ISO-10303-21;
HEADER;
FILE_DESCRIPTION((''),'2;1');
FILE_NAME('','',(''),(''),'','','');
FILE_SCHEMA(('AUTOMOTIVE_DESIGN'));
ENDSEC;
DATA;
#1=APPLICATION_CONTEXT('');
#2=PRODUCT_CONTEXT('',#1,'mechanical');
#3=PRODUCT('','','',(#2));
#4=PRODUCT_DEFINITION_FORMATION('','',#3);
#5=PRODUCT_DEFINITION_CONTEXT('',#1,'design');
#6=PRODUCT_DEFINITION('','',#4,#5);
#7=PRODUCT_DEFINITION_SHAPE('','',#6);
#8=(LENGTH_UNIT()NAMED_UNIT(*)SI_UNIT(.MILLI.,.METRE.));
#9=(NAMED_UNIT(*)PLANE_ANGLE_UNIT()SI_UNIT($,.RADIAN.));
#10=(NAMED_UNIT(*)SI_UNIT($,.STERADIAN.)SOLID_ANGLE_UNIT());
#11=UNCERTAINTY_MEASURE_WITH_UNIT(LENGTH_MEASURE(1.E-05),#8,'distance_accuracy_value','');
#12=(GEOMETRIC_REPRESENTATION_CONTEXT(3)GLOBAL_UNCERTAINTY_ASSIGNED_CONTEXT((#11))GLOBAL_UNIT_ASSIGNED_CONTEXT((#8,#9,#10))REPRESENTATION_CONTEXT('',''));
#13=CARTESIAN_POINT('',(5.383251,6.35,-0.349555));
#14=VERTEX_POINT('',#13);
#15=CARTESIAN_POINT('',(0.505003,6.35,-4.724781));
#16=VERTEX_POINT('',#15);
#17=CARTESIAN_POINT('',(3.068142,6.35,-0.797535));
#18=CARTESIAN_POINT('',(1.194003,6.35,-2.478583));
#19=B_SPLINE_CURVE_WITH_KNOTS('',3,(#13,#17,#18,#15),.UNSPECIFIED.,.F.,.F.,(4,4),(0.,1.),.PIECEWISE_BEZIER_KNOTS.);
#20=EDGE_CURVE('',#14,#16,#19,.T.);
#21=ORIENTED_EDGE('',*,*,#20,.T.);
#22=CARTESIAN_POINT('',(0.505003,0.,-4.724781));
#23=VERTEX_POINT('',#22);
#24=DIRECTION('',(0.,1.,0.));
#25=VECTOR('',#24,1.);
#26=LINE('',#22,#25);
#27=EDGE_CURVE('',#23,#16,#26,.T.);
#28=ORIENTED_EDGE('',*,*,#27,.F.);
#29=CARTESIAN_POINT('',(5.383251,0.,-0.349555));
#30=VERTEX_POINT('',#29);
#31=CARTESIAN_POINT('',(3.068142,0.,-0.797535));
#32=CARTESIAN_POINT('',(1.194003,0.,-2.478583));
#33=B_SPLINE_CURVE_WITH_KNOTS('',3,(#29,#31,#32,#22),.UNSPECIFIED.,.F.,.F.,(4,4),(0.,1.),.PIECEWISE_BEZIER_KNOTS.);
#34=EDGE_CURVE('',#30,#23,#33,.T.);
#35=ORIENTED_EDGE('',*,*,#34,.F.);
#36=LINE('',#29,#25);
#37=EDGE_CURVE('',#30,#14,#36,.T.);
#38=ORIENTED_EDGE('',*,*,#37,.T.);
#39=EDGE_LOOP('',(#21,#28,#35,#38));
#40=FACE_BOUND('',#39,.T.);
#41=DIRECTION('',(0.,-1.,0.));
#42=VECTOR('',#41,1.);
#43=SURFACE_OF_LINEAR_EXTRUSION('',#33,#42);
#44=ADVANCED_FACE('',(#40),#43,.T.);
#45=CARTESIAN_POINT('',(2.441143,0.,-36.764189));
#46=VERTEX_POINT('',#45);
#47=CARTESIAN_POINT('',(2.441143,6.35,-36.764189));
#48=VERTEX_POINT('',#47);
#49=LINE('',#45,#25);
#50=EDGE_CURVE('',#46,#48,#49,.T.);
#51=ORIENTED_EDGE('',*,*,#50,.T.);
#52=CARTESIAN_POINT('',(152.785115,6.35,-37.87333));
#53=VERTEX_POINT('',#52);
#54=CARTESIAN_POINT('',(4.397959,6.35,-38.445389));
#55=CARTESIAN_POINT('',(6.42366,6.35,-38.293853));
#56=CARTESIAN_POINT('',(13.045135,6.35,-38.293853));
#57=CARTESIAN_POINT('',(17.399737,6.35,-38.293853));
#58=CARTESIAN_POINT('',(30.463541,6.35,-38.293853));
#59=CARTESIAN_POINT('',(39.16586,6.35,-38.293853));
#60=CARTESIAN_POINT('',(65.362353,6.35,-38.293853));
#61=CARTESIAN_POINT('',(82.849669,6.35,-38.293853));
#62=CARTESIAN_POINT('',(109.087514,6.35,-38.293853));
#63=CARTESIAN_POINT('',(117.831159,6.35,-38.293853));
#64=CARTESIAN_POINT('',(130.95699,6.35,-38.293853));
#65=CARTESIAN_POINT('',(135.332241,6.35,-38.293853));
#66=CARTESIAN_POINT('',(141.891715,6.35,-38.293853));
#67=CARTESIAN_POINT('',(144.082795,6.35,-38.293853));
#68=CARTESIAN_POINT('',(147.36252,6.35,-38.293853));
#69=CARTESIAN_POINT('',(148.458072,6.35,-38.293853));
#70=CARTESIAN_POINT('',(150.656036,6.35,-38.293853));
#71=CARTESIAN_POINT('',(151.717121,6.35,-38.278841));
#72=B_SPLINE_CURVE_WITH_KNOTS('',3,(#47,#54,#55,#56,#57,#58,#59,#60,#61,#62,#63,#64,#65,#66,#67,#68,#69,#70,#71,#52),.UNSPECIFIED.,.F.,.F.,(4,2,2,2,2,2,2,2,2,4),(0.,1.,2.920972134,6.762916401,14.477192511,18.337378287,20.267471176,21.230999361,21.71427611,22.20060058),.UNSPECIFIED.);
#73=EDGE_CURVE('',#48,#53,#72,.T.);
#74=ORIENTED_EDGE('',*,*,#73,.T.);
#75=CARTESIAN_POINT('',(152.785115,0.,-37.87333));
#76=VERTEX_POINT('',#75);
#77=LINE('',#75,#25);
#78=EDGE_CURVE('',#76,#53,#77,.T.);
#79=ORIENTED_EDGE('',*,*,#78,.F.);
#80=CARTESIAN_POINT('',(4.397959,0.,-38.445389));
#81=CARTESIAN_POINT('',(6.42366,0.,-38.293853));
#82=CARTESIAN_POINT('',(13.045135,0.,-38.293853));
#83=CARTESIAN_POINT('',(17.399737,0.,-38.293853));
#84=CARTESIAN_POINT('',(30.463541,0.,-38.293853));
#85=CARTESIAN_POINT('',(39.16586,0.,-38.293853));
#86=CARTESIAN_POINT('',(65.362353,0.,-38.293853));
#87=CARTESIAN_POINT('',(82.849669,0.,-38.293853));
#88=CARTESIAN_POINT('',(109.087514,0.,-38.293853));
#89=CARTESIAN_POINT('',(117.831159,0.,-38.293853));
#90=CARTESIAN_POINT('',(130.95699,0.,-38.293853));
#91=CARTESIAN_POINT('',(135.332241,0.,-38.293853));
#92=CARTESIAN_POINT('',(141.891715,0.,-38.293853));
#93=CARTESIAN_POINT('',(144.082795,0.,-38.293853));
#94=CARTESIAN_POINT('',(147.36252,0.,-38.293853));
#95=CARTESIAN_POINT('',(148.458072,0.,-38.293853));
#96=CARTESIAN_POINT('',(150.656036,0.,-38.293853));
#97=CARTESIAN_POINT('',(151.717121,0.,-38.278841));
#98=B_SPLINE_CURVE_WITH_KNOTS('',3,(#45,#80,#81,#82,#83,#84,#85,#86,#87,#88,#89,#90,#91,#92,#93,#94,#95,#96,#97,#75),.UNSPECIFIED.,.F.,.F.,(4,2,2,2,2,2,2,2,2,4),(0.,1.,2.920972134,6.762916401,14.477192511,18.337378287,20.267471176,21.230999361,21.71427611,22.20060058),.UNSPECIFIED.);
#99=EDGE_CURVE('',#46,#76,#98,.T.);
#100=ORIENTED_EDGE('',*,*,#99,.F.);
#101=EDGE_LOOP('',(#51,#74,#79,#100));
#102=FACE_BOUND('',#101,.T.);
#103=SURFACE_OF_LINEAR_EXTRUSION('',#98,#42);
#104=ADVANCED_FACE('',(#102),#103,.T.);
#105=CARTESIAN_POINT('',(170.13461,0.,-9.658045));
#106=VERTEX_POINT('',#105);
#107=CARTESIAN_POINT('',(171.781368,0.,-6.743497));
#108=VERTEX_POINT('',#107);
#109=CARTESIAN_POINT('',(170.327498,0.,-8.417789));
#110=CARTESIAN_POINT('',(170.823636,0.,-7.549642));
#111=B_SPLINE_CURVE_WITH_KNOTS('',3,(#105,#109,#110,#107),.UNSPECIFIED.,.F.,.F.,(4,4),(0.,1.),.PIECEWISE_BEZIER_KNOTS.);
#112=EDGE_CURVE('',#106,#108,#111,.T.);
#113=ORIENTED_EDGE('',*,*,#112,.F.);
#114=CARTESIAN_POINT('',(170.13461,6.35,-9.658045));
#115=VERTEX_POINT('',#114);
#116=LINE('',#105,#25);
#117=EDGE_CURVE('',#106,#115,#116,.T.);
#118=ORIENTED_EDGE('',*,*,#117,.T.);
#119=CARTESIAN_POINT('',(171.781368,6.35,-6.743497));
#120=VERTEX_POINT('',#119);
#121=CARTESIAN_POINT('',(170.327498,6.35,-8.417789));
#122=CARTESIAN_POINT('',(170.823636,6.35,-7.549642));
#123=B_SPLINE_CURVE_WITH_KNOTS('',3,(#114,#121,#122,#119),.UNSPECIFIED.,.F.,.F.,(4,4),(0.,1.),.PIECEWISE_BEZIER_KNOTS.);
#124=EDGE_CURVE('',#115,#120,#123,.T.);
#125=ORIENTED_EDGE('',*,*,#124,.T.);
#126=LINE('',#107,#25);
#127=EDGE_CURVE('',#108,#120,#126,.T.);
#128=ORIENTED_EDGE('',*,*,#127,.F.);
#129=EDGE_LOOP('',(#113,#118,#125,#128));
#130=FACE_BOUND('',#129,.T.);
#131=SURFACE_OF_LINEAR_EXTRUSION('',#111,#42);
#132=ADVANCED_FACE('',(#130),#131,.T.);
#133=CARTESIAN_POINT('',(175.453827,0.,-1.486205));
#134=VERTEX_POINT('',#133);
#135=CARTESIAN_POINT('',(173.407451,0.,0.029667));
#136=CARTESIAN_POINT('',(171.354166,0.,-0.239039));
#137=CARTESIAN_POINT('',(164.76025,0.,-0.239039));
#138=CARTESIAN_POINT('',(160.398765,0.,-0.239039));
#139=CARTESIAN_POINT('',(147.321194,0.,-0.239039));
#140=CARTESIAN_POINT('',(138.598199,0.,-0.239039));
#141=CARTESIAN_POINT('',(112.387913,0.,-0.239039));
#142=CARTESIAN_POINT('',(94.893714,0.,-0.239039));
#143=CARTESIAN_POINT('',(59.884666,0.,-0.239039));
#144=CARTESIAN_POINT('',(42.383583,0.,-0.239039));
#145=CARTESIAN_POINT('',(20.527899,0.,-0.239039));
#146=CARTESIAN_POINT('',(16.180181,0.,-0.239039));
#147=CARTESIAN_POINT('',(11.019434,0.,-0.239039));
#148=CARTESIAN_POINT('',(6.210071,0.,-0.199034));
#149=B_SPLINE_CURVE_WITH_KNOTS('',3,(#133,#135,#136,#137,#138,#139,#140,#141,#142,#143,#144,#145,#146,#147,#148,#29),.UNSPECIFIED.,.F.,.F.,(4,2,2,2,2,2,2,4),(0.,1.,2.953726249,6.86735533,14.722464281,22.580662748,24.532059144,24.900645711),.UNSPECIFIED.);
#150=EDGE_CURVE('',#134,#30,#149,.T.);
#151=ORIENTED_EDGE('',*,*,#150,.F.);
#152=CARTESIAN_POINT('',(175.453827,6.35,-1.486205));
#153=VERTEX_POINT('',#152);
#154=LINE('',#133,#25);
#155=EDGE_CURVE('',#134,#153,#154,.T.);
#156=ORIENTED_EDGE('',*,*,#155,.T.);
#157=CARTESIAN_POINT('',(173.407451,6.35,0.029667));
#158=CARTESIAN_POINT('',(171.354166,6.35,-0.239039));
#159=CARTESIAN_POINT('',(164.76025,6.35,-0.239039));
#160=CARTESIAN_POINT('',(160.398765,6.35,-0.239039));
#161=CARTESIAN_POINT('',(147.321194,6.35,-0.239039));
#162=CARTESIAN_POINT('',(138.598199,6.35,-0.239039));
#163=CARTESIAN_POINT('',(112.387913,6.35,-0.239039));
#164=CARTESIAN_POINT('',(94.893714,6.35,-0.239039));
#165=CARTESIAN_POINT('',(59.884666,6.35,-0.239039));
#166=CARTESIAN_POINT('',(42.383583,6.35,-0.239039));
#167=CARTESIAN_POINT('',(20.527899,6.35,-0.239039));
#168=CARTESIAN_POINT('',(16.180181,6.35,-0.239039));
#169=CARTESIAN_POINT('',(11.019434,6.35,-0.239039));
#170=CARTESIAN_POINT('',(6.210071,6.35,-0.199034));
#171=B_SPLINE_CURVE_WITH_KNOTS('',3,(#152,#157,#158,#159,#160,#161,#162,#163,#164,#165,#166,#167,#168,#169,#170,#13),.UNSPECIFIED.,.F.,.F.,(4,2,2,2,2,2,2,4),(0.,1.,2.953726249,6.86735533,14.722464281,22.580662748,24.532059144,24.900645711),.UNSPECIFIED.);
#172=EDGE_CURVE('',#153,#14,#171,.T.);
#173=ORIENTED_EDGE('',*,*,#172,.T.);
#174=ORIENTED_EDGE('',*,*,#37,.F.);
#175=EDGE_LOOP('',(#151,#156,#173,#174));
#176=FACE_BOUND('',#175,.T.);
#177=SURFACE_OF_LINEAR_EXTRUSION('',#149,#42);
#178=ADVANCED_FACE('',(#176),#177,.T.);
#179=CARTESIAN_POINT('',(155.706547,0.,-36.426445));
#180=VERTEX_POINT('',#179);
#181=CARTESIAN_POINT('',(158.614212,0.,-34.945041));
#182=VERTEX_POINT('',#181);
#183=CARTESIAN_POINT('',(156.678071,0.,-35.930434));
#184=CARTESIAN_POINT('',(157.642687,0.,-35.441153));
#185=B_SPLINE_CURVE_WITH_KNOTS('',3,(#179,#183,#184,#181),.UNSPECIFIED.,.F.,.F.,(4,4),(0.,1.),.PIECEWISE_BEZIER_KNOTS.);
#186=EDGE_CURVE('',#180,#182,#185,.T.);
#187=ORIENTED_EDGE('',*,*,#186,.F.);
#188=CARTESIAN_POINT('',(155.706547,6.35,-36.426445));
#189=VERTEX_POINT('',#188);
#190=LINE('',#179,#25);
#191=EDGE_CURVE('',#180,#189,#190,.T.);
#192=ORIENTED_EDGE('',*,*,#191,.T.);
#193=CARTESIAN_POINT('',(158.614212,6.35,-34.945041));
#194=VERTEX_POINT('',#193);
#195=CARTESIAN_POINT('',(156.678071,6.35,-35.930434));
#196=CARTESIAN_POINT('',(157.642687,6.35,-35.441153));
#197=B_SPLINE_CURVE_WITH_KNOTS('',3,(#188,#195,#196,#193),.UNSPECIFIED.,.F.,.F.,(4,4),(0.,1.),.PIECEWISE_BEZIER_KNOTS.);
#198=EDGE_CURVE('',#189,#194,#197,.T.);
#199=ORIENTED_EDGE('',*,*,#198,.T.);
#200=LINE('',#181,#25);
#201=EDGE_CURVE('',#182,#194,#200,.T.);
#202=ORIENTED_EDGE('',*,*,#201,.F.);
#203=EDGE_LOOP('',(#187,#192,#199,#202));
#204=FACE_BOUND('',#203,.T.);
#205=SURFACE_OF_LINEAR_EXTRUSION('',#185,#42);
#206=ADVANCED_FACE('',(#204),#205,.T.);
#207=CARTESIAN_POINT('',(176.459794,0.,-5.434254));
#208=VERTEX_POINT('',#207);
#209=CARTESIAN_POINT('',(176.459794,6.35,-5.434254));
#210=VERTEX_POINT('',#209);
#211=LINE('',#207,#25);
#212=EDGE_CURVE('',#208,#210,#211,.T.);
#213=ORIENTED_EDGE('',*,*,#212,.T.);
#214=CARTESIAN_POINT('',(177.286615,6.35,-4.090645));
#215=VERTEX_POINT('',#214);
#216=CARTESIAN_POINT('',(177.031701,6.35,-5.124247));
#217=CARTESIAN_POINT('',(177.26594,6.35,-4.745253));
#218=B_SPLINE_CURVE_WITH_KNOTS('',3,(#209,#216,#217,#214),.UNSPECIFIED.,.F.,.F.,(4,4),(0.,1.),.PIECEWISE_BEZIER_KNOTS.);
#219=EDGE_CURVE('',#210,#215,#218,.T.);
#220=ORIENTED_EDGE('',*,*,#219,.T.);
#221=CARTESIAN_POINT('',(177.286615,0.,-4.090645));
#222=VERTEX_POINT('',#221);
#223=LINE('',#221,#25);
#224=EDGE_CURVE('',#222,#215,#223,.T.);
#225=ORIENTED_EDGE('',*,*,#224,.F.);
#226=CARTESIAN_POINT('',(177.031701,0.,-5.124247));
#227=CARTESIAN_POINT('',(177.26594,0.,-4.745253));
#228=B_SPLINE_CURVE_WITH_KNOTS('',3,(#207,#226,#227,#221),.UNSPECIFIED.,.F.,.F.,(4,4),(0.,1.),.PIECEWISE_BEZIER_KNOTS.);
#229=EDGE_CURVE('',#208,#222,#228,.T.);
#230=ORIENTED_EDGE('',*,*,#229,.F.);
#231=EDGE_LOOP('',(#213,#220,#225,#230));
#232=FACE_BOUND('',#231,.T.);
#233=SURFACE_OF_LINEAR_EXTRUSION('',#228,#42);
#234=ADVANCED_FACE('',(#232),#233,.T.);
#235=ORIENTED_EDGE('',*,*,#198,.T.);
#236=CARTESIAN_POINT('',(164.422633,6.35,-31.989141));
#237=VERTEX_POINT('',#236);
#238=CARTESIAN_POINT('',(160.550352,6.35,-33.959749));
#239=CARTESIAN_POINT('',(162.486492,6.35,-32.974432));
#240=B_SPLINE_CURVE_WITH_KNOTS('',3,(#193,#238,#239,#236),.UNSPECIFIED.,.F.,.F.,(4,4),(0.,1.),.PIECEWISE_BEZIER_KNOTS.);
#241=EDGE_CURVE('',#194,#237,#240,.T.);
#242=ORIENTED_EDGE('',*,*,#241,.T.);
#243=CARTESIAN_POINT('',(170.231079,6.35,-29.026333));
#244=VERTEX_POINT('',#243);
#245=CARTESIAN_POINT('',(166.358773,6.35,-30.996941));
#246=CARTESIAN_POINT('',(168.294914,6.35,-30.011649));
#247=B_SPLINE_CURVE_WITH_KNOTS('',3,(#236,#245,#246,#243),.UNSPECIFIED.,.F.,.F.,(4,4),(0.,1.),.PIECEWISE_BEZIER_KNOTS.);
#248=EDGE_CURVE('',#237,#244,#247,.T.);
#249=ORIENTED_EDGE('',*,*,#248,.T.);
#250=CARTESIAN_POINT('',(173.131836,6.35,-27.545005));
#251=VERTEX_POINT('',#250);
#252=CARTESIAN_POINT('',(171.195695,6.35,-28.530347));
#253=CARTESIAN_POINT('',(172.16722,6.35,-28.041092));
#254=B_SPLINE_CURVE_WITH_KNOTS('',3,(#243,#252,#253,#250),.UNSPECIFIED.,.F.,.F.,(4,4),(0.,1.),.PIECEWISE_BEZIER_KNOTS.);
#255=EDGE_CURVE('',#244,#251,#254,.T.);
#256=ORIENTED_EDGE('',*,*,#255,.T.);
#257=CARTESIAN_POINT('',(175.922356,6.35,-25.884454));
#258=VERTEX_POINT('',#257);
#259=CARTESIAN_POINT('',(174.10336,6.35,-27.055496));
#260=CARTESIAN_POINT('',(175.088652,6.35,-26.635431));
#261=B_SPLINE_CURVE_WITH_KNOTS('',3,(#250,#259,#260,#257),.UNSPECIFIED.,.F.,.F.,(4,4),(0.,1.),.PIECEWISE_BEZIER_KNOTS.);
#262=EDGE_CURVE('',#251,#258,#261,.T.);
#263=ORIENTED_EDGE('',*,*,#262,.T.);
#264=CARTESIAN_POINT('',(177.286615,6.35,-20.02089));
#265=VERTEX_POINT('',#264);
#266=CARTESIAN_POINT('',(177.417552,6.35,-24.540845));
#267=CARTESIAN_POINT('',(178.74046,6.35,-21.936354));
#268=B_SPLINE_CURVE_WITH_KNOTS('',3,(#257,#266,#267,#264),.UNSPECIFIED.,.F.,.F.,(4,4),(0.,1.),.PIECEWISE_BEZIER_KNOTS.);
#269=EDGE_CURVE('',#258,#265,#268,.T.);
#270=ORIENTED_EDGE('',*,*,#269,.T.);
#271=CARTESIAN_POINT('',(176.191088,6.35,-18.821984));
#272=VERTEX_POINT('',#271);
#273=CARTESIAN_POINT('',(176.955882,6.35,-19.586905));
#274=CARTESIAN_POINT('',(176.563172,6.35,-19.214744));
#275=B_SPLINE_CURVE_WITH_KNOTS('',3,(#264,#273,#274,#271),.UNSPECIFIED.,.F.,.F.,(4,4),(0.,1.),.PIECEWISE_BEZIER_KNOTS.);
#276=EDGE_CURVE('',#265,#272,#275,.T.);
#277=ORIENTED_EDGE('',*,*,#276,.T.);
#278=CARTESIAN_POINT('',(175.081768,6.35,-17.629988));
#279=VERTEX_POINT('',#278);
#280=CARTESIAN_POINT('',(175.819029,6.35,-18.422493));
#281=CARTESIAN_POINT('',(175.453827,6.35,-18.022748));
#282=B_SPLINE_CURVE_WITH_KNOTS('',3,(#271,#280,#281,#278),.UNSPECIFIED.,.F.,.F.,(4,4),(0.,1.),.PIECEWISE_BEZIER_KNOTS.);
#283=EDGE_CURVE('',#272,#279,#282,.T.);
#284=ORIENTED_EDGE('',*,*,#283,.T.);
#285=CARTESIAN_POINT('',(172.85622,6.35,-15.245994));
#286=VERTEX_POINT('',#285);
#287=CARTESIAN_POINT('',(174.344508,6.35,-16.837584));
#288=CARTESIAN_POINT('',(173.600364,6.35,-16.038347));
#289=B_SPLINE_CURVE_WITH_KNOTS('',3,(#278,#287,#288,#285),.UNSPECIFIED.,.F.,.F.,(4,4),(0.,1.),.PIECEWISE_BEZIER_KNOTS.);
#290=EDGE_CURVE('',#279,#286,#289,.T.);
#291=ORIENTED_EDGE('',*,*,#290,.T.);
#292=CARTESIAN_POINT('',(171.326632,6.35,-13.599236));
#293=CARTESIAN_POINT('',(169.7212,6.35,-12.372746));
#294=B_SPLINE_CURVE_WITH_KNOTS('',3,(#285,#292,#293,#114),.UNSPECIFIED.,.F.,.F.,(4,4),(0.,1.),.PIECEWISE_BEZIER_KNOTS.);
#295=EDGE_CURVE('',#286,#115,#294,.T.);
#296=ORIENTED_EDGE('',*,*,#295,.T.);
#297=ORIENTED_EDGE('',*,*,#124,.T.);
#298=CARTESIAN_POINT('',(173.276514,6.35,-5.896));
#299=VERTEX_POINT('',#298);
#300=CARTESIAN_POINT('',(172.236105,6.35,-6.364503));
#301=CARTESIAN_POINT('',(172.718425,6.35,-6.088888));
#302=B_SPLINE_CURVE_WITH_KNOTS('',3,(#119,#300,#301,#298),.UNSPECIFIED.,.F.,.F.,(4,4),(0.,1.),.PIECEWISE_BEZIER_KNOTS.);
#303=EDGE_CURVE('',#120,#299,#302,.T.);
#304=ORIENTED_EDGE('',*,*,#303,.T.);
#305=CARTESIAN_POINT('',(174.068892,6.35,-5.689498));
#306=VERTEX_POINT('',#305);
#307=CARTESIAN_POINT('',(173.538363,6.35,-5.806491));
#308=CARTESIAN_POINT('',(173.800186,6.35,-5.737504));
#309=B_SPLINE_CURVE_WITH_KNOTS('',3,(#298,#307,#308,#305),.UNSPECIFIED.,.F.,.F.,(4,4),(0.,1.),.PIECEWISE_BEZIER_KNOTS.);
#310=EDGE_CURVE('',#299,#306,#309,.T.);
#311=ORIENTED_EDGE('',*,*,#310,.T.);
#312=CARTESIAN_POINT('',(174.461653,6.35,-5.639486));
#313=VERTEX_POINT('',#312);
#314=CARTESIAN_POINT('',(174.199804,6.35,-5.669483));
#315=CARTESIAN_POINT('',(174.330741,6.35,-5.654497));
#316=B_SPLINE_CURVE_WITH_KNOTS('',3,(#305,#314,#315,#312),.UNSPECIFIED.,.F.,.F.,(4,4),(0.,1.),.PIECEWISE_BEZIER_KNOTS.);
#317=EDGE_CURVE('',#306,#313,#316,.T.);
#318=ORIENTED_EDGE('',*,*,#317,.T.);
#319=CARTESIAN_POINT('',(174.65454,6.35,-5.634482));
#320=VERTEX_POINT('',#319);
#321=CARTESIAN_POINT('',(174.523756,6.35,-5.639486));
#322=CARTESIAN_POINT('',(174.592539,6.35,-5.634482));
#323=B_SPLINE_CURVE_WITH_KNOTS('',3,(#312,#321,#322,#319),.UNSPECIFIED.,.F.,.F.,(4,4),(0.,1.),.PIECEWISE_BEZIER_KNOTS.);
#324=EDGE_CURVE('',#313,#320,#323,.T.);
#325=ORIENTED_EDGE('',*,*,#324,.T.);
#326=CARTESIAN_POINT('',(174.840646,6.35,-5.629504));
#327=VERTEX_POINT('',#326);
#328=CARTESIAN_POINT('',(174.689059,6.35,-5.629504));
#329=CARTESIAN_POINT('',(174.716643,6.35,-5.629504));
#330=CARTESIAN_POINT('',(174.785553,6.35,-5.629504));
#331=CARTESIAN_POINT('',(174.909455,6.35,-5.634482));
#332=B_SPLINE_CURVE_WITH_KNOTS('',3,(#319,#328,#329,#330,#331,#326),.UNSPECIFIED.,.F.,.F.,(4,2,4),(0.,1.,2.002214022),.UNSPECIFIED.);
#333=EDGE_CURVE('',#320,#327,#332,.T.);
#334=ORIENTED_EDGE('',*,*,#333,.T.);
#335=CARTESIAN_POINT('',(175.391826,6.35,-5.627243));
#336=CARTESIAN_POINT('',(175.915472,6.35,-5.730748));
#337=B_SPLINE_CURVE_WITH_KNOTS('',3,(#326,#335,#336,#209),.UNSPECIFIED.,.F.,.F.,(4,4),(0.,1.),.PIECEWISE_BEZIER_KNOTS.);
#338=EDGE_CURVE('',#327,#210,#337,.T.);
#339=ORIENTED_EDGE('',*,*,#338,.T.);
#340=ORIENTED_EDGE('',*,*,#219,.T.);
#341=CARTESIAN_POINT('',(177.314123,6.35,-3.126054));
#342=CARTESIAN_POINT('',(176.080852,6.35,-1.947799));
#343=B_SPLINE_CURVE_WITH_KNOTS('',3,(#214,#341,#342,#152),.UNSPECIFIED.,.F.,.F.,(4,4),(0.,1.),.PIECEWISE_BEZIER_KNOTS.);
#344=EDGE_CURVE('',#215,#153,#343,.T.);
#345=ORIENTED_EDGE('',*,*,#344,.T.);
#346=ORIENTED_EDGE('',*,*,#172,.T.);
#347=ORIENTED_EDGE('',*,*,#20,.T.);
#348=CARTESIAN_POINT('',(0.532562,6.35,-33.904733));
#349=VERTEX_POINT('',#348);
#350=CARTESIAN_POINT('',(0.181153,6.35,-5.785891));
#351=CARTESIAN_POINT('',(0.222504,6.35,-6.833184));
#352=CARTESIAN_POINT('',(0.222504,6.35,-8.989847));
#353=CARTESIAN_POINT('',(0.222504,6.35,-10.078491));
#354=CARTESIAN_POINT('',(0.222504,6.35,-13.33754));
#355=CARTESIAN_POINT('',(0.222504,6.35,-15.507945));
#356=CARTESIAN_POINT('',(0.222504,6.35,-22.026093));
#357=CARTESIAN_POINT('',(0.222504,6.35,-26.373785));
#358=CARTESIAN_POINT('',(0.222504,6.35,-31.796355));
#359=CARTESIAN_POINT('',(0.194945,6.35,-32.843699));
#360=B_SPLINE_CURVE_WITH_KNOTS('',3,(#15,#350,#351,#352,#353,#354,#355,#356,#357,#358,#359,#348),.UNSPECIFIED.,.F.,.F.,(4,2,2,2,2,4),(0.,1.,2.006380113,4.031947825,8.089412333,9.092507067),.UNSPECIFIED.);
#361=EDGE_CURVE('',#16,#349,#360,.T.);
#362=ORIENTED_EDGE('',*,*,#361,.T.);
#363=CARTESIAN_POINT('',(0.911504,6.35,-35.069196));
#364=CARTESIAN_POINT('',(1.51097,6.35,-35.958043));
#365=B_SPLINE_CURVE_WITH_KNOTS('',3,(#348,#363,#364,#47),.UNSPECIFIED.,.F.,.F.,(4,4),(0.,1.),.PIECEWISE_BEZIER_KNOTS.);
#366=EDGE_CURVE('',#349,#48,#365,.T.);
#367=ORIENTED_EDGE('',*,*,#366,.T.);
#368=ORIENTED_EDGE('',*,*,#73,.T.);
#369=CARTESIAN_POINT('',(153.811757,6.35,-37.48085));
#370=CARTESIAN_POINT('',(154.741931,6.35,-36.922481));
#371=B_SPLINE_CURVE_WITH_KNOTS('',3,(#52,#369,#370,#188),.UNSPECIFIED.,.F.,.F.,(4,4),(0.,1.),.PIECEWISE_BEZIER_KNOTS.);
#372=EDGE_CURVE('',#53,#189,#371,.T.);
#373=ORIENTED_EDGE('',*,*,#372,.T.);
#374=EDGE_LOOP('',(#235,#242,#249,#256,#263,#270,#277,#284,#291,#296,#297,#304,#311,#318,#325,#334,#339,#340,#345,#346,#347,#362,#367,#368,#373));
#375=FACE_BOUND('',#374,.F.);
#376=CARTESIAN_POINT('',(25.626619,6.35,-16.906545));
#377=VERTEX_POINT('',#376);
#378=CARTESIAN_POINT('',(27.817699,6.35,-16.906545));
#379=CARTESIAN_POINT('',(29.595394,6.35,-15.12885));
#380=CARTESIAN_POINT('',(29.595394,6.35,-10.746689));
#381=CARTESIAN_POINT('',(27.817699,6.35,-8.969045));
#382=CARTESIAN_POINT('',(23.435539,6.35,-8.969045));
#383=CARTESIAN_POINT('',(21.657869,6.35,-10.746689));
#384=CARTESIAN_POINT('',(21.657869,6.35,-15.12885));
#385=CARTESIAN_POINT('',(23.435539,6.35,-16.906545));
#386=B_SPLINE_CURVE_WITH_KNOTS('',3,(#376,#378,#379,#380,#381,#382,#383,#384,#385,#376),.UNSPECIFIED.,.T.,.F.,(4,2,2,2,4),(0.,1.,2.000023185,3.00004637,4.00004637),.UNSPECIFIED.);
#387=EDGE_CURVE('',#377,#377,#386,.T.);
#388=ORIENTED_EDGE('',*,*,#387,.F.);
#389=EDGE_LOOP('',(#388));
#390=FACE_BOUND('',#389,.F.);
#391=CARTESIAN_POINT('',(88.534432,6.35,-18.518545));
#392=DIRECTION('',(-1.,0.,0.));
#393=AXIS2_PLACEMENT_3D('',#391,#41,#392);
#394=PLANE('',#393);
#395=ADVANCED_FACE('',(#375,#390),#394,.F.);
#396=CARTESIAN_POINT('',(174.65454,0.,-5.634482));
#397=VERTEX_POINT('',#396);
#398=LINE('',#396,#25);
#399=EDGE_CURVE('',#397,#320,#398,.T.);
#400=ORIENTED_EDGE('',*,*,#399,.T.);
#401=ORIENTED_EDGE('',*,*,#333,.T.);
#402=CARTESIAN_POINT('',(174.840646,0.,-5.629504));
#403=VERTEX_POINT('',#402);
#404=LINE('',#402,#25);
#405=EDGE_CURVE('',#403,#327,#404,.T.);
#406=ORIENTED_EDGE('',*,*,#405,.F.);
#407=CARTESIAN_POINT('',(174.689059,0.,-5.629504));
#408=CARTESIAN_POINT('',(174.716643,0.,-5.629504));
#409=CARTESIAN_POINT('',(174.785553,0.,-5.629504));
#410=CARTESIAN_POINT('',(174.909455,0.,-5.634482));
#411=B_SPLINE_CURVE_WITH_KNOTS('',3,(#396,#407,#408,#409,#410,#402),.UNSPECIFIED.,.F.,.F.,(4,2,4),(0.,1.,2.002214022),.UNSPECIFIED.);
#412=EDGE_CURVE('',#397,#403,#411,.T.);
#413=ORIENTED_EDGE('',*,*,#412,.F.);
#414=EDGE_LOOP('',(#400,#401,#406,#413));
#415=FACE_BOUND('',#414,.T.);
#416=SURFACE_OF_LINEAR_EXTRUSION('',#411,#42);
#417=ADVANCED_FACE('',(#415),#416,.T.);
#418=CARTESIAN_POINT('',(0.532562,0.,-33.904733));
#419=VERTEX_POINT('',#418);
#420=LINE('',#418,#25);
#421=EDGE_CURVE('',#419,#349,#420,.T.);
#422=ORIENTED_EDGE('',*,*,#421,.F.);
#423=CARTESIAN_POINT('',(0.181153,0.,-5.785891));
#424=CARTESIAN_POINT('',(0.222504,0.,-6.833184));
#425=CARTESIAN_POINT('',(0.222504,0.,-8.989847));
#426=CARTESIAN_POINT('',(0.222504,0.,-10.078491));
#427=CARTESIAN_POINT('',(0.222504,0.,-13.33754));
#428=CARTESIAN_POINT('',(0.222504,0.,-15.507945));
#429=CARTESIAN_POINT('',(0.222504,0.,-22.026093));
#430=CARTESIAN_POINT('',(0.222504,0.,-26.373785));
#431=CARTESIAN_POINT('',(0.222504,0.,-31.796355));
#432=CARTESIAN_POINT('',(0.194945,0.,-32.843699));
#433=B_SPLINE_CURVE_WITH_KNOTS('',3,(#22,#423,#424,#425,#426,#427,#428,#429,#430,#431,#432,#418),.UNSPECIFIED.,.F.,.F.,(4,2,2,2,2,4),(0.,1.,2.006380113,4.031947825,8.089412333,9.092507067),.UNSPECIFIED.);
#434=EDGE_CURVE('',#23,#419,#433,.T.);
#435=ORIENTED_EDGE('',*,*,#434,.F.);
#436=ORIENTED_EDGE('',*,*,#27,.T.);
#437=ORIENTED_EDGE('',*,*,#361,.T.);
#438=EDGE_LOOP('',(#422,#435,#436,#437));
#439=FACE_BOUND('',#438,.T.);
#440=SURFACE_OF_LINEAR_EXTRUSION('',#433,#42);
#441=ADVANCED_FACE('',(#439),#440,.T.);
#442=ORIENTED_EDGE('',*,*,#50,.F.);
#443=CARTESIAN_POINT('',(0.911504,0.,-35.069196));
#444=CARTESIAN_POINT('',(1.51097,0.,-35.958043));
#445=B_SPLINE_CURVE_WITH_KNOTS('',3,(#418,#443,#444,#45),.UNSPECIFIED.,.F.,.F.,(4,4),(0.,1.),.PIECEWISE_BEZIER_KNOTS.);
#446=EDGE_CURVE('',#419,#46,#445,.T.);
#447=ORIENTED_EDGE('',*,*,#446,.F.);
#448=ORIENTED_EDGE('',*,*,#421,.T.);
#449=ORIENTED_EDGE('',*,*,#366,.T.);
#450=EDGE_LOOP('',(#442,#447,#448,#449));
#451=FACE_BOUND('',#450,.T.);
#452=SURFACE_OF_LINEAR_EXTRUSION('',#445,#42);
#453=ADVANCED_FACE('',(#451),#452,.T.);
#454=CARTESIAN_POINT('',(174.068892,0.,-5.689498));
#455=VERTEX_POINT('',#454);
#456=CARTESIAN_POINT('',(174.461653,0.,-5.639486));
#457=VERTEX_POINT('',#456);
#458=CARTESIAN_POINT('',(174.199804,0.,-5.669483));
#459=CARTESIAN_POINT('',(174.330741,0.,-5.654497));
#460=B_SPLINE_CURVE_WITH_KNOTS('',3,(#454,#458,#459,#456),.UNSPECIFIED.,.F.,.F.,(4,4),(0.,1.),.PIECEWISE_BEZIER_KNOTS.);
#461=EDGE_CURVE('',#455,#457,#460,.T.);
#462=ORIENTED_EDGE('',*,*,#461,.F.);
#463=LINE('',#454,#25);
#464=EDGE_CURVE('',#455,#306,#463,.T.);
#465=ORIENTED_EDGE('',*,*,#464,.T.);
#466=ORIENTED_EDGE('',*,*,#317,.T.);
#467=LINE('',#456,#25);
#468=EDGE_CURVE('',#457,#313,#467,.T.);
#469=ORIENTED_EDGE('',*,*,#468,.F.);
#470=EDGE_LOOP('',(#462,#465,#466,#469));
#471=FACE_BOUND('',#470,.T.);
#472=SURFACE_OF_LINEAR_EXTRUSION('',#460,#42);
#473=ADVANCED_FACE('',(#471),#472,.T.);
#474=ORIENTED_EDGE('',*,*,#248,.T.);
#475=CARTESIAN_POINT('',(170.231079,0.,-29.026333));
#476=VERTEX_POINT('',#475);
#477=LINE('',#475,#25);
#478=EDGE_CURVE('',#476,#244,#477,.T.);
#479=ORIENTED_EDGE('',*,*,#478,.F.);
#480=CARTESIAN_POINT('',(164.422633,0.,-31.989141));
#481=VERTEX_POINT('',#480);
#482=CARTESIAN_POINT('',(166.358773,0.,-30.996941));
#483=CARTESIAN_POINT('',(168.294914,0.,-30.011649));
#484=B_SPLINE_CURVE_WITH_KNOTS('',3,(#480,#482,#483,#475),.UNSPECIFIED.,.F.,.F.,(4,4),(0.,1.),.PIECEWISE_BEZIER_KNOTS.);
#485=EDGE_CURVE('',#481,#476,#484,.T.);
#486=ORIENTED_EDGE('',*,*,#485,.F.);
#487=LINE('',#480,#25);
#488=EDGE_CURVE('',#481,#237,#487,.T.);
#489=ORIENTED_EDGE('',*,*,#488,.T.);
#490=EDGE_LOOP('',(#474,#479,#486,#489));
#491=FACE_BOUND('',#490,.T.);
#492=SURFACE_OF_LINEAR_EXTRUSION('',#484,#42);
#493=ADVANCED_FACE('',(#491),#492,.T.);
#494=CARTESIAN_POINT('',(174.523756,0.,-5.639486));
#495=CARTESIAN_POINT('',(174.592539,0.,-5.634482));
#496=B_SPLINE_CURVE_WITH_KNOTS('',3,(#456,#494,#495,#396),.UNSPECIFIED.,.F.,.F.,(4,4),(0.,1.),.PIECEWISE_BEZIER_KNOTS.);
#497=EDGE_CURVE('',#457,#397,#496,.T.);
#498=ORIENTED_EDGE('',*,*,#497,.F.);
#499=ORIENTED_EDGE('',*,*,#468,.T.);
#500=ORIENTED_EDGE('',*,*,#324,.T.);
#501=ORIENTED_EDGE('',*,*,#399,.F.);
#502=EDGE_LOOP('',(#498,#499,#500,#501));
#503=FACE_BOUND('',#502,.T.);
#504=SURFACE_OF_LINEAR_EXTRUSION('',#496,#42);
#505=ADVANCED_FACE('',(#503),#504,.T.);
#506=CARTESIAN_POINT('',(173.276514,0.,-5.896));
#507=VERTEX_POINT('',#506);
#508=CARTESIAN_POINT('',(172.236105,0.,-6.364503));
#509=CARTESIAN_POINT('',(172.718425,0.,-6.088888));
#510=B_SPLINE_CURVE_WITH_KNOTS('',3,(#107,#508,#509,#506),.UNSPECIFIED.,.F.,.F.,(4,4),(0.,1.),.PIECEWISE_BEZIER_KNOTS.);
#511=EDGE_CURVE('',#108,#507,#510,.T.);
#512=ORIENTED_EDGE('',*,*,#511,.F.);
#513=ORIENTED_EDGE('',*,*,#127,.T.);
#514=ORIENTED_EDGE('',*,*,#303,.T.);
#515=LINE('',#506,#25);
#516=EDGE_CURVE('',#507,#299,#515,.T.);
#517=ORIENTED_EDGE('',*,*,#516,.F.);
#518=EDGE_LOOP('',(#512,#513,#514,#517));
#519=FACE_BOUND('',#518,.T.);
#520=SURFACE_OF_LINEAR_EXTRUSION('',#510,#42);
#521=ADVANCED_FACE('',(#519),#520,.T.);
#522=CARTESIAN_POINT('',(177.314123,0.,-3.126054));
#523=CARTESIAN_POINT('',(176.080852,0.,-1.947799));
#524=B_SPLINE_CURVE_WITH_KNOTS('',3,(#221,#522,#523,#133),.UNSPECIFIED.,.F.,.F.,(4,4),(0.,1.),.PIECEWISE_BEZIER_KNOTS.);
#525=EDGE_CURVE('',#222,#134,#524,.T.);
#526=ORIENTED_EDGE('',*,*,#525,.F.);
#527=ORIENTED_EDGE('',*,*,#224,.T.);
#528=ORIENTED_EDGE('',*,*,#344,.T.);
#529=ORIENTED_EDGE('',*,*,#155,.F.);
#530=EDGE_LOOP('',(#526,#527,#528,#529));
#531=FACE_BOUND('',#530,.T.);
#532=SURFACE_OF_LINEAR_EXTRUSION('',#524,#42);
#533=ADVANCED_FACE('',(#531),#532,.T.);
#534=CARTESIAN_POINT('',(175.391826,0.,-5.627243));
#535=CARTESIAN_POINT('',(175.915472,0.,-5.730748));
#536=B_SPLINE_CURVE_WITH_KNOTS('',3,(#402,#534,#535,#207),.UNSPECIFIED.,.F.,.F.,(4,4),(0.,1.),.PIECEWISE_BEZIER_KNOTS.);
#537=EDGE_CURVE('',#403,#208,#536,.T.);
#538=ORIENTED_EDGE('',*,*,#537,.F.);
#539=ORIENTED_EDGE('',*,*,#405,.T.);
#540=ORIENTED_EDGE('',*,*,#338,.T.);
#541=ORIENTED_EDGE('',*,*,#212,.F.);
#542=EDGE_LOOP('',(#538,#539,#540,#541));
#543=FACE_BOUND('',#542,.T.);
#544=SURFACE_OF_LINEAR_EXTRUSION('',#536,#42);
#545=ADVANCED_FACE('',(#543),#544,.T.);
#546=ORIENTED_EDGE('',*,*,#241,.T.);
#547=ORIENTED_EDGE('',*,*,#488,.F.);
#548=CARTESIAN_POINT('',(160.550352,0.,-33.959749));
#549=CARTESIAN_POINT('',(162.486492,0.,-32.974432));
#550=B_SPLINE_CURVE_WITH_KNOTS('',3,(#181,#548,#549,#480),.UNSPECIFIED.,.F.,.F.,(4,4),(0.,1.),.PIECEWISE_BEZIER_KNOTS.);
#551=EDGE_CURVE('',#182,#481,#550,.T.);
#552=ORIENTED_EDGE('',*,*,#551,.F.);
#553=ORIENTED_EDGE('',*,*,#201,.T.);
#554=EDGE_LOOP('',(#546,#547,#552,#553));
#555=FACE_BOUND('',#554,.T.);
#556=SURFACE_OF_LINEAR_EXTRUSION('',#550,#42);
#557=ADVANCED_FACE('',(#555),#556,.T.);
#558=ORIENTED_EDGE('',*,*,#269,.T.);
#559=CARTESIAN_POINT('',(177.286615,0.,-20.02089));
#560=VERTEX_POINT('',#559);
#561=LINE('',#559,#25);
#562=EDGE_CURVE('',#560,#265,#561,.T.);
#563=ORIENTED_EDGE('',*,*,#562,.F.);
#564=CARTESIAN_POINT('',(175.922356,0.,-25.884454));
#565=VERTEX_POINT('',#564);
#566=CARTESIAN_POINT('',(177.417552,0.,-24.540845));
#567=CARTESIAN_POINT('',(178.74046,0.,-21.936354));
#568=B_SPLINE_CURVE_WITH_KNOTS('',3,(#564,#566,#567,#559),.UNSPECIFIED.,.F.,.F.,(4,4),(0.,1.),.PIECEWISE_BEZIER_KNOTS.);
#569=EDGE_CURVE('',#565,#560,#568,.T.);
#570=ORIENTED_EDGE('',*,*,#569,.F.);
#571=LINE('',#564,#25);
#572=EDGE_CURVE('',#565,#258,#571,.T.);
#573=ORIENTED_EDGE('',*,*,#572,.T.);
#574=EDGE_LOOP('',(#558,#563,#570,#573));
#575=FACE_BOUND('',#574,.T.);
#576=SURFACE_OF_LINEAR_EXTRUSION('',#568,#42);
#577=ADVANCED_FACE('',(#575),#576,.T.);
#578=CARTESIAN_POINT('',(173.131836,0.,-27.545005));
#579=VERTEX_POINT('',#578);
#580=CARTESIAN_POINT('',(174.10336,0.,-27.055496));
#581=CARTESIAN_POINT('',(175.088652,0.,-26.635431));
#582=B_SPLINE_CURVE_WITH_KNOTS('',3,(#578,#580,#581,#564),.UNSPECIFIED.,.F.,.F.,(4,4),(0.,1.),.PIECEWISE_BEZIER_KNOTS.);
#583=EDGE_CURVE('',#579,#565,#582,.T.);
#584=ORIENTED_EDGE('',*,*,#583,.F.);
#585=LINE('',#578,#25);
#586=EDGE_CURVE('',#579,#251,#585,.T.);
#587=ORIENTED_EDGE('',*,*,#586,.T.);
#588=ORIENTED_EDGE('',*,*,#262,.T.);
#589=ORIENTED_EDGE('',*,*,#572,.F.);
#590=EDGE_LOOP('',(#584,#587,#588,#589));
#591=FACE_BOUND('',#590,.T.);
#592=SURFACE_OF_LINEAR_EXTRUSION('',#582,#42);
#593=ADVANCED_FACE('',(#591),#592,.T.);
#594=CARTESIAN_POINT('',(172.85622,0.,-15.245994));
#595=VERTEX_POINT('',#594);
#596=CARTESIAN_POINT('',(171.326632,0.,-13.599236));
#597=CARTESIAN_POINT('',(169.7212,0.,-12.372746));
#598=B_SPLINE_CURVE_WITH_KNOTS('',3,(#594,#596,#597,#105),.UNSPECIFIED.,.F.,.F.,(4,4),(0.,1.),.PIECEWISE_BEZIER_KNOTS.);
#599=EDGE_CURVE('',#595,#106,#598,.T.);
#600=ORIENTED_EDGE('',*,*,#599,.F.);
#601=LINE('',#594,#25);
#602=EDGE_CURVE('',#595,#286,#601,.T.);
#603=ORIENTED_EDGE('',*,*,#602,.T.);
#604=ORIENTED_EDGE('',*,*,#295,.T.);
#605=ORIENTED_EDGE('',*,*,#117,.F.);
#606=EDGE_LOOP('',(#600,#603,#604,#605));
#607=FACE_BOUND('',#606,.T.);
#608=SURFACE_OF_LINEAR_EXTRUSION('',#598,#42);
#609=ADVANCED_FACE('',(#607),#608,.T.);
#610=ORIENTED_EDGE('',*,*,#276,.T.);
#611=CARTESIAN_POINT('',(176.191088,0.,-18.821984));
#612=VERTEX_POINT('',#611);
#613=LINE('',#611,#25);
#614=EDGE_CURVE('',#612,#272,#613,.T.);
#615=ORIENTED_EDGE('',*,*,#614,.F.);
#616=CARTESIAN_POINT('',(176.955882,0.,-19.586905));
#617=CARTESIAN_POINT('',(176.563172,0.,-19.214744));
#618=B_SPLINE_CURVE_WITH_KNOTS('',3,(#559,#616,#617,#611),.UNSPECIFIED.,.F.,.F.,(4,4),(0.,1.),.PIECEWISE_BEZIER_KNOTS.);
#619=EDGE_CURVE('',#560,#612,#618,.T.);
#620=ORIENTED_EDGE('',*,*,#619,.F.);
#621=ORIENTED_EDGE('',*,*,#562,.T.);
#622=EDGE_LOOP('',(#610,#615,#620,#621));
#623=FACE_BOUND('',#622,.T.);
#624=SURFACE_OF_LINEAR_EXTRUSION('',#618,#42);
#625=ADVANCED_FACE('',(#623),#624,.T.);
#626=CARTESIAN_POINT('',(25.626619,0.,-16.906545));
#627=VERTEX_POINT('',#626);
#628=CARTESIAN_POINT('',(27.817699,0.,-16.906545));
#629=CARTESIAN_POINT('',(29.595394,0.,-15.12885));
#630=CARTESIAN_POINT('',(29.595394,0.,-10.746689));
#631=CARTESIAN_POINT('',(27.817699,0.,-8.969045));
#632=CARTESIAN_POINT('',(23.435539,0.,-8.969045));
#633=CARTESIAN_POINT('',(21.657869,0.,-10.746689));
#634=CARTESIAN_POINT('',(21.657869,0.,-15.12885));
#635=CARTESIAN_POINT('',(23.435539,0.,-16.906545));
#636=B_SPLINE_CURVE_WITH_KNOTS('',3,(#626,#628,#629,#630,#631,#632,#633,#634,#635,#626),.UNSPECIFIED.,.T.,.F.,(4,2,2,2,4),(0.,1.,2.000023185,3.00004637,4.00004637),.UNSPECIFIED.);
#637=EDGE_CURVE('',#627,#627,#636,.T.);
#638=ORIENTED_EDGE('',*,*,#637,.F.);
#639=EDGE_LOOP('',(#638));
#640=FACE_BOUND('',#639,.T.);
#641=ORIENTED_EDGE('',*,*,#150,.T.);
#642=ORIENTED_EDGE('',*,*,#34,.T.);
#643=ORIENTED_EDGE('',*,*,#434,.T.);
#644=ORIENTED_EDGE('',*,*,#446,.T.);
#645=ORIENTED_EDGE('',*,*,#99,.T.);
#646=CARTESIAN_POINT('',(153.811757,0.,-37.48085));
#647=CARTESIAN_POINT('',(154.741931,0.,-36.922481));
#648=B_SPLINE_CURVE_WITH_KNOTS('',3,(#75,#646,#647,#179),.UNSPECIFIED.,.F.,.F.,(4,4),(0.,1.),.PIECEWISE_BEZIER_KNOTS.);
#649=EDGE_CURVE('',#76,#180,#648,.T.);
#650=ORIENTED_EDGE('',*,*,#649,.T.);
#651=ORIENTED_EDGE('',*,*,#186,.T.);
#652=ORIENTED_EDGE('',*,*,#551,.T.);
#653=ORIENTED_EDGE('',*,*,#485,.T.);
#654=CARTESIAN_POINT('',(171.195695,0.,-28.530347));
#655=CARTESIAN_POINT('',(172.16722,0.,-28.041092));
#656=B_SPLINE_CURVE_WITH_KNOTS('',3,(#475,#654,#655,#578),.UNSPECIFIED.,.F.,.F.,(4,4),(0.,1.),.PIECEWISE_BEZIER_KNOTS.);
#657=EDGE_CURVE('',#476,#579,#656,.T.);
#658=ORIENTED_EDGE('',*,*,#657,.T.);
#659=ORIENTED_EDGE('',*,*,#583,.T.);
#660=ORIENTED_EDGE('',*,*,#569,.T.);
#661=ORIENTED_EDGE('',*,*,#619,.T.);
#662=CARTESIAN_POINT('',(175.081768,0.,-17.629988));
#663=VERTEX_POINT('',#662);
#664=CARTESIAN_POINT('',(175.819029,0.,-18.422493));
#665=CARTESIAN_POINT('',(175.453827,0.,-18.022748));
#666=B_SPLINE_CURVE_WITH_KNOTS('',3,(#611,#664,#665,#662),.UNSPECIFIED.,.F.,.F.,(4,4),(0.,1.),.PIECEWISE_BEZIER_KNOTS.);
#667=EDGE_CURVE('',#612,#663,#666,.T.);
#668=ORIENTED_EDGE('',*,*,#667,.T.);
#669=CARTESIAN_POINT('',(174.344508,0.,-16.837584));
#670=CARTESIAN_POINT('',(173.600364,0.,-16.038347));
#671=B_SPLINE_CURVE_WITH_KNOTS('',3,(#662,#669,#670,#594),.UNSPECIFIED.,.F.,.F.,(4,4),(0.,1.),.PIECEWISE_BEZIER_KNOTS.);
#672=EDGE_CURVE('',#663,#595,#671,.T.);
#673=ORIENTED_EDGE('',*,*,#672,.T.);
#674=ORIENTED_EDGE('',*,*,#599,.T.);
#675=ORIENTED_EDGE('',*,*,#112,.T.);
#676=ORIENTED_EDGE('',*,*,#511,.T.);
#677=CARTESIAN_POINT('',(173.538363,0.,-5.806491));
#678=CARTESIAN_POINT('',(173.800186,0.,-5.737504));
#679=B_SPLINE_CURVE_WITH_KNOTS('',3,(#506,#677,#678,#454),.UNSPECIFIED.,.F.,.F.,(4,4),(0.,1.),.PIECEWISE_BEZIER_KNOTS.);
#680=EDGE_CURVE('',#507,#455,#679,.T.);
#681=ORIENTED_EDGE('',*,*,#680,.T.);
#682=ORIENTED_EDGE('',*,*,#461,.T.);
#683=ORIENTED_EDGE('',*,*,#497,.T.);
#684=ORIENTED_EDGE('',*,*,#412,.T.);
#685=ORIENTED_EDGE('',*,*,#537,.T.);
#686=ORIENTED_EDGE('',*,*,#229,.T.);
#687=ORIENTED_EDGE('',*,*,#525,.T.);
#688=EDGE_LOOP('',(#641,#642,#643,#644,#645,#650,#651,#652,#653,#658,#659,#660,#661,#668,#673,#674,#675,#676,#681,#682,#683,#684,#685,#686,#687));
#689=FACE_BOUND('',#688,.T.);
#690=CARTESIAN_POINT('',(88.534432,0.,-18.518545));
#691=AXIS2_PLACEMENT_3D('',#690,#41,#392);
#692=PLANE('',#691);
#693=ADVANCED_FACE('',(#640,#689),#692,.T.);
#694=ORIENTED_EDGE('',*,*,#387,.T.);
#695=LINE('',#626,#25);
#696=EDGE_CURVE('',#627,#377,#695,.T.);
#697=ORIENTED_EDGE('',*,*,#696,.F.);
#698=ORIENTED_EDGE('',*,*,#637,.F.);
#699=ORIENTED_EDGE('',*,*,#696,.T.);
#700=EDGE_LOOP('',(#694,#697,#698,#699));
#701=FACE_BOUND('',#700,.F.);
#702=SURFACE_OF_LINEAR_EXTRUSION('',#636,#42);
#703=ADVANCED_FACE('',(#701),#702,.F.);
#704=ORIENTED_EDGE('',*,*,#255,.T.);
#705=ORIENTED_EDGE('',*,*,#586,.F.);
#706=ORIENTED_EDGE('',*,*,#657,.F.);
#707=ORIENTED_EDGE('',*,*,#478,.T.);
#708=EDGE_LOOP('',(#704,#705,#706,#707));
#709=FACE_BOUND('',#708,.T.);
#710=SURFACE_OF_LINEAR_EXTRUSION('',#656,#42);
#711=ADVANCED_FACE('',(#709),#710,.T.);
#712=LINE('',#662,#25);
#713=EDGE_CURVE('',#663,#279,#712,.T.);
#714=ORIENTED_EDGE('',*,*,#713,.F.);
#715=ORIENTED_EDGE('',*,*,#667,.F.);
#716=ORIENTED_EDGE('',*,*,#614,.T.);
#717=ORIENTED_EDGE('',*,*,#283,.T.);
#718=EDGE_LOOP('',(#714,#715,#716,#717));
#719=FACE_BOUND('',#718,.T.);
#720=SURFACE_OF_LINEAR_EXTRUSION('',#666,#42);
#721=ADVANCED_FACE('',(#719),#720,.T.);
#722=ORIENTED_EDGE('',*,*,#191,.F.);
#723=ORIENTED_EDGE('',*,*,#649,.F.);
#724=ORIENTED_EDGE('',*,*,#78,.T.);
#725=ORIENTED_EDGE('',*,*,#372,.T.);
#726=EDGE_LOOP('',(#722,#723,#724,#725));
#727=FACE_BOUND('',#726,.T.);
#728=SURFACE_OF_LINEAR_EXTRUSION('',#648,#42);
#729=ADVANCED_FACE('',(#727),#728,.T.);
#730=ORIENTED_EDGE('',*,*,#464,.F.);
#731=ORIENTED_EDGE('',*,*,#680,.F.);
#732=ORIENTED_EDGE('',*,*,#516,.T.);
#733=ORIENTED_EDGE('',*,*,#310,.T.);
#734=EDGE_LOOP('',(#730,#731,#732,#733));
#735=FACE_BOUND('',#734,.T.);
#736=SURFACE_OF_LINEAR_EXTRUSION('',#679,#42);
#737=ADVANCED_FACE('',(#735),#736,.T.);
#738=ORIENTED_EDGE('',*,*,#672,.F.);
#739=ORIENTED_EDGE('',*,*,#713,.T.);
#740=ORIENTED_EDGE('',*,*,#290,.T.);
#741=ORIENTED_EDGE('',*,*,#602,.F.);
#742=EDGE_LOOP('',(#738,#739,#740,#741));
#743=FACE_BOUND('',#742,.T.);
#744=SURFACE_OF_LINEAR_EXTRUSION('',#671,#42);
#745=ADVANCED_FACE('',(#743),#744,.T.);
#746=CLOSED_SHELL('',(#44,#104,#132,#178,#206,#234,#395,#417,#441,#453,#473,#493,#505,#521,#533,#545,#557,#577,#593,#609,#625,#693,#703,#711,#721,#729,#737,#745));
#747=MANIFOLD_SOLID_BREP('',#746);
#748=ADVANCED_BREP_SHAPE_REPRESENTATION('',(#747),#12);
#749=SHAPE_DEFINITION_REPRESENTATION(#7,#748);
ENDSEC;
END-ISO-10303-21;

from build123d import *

# Parameters (mm, degrees)
BOSS_EXTRUDE1_DEPTH = 6.35


with BuildPart() as part:
    # Sketch1 → Boss-Extrude1 (new body)
    with BuildSketch(Plane(origin=(0, 0, 0), x_dir=(1, 0, 0), z_dir=(0, 1, 0))):
        with BuildLine():
            add(Edge.make_bspline(
                [(174.840646, 5.6295036), (175.391826, 5.627243), (175.9154724, 5.730748), (176.4597944, 5.4342538)],
                knots=[0, 0, 0, 0, 1, 1, 1, 1], degree=3))
            add(Edge.make_bspline(
                [(176.4597944, 5.4342538), (177.0317008, 5.1242468), (177.2659396, 4.7452534), (177.2866152, 4.0906446)],
                knots=[0, 0, 0, 0, 1, 1, 1, 1], degree=3))
            add(Edge.make_bspline(
                [(177.2866152, 4.0906446), (177.3141234, 3.1260542), (176.0808518, 1.947799), (175.4538274, 1.4862048)],
                knots=[0, 0, 0, 0, 1, 1, 1, 1], degree=3))
            add(Edge.make_bspline(
                [(175.4538274, 1.4862048), (173.407451, -0.0296672), (171.3541658, 0.2390394), (169.1217598, 0.2390394)],
                knots=[0, 0, 0, 0, 1, 1, 1, 1], degree=3))
            add(Edge.make_bspline(
                [(169.1217598, 0.2390394), (164.7602496, 0.2390394), (160.3987648, 0.2390394), (156.0441634, 0.2390394)],
                knots=[0, 0, 0, 0, 1, 1, 1, 1], degree=3))
            add(Edge.make_bspline(
                [(156.0441634, 0.2390394), (147.3211938, 0.2390394), (138.5981988, 0.2390394), (129.8821126, 0.2390394)],
                knots=[0, 0, 0, 0, 1, 1, 1, 1], degree=3))
            add(Edge.make_bspline(
                [(129.8821126, 0.2390394), (112.3879134, 0.2390394), (94.8937142, 0.2390394), (77.3926316, 0.2390394)],
                knots=[0, 0, 0, 0, 1, 1, 1, 1], degree=3))
            add(Edge.make_bspline(
                [(77.3926316, 0.2390394), (59.8846656, 0.2390394), (42.383583, 0.2390394), (24.8755916, 0.2390394)],
                knots=[0, 0, 0, 0, 1, 1, 1, 1], degree=3))
            add(Edge.make_bspline(
                [(24.8755916, 0.2390394), (20.527899, 0.2390394), (16.180181, 0.2390394), (11.8393464, 0.2390394)],
                knots=[0, 0, 0, 0, 1, 1, 1, 1], degree=3))
            add(Edge.make_bspline(
                [(11.8393464, 0.2390394), (11.0194344, 0.2390394), (6.2100714, 0.1990344), (5.3832506, 0.3495548)],
                knots=[0, 0, 0, 0, 1, 1, 1, 1], degree=3))
            add(Edge.make_bspline(
                [(5.3832506, 0.3495548), (3.0681422, 0.7975346), (1.1940032, 2.4785828), (0.5050028, 4.724781)],
                knots=[0, 0, 0, 0, 1, 1, 1, 1], degree=3))
            add(Edge.make_bspline(
                [(0.5050028, 4.724781), (0.1811528, 5.7858914), (0.222504, 6.8331842), (0.222504, 7.9080868)],
                knots=[0, 0, 0, 0, 1, 1, 1, 1], degree=3))
            add(Edge.make_bspline(
                [(0.222504, 7.9080868), (0.222504, 8.9898474), (0.222504, 10.0784914), (0.222504, 11.160252)],
                knots=[0, 0, 0, 0, 1, 1, 1, 1], degree=3))
            add(Edge.make_bspline(
                [(0.222504, 11.160252), (0.222504, 13.33754), (0.222504, 15.5079446), (0.222504, 17.6784)],
                knots=[0, 0, 0, 0, 1, 1, 1, 1], degree=3))
            add(Edge.make_bspline(
                [(0.222504, 17.6784), (0.222504, 22.0260926), (0.222504, 26.3737852), (0.222504, 30.7215032)],
                knots=[0, 0, 0, 0, 1, 1, 1, 1], degree=3))
            add(Edge.make_bspline(
                [(0.222504, 30.7215032), (0.222504, 31.796355), (0.194945, 32.8436986), (0.5325618, 33.9047328)],
                knots=[0, 0, 0, 0, 1, 1, 1, 1], degree=3))
            add(Edge.make_bspline(
                [(0.5325618, 33.9047328), (0.9115044, 35.0691958), (1.5109698, 35.9580434), (2.4411432, 36.7641886)],
                knots=[0, 0, 0, 0, 1, 1, 1, 1], degree=3))
            add(Edge.make_bspline(
                [(2.4411432, 36.7641886), (4.3979592, 38.4453892), (6.42366, 38.2938528), (8.6905338, 38.2938528)],
                knots=[0, 0, 0, 0, 1, 1, 1, 1], degree=3))
            add(Edge.make_bspline(
                [(8.6905338, 38.2938528), (13.0451352, 38.2938528), (17.3997366, 38.2938528), (21.754338, 38.2938528)],
                knots=[0, 0, 0, 0, 1, 1, 1, 1], degree=3))
            add(Edge.make_bspline(
                [(21.754338, 38.2938528), (30.4635408, 38.2938528), (39.1658602, 38.2938528), (47.875063, 38.2938528)],
                knots=[0, 0, 0, 0, 1, 1, 1, 1], degree=3))
            add(Edge.make_bspline(
                [(47.875063, 38.2938528), (65.3623534, 38.2938528), (82.8496692, 38.2938528), (100.3369596, 38.2938528)],
                knots=[0, 0, 0, 0, 1, 1, 1, 1], degree=3))
            add(Edge.make_bspline(
                [(100.3369596, 38.2938528), (109.0875136, 38.2938528), (117.8311588, 38.2938528), (126.5817128, 38.2938528)],
                knots=[0, 0, 0, 0, 1, 1, 1, 1], degree=3))
            add(Edge.make_bspline(
                [(126.5817128, 38.2938528), (130.9569898, 38.2938528), (135.3322414, 38.2938528), (139.7075184, 38.2938528)],
                knots=[0, 0, 0, 0, 1, 1, 1, 1], degree=3))
            add(Edge.make_bspline(
                [(139.7075184, 38.2938528), (141.8917152, 38.2938528), (144.0827954, 38.2938528), (146.2669922, 38.2938528)],
                knots=[0, 0, 0, 0, 1, 1, 1, 1], degree=3))
            add(Edge.make_bspline(
                [(146.2669922, 38.2938528), (147.3625196, 38.2938528), (148.4580724, 38.2938528), (149.5535998, 38.2938528)],
                knots=[0, 0, 0, 0, 1, 1, 1, 1], degree=3))
            add(Edge.make_bspline(
                [(149.5535998, 38.2938528), (150.656036, 38.2938528), (151.717121, 38.2788414), (152.7851148, 37.8733304)],
                knots=[0, 0, 0, 0, 1, 1, 1, 1], degree=3))
            add(Edge.make_bspline(
                [(152.7851148, 37.8733304), (153.8117574, 37.4808496), (154.7419308, 36.9224814), (155.7065466, 36.4264448)],
                knots=[0, 0, 0, 0, 1, 1, 1, 1], degree=3))
            add(Edge.make_bspline(
                [(155.7065466, 36.4264448), (156.6780712, 35.9304336), (157.642687, 35.4411534), (158.6142116, 34.9450406)],
                knots=[0, 0, 0, 0, 1, 1, 1, 1], degree=3))
            add(Edge.make_bspline(
                [(158.6142116, 34.9450406), (160.550352, 33.9597492), (162.4864924, 32.9744324), (164.4226328, 31.989141)],
                knots=[0, 0, 0, 0, 1, 1, 1, 1], degree=3))
            add(Edge.make_bspline(
                [(164.4226328, 31.989141), (166.3587732, 30.9969408), (168.2949136, 30.0116494), (170.2310794, 29.0263326)],
                knots=[0, 0, 0, 0, 1, 1, 1, 1], degree=3))
            add(Edge.make_bspline(
                [(170.2310794, 29.0263326), (171.1956952, 28.5303468), (172.1672198, 28.041092), (173.1318356, 27.5450046)],
                knots=[0, 0, 0, 0, 1, 1, 1, 1], degree=3))
            add(Edge.make_bspline(
                [(173.1318356, 27.5450046), (174.1033602, 27.0554958), (175.0886516, 26.6354306), (175.9223558, 25.8844542)],
                knots=[0, 0, 0, 0, 1, 1, 1, 1], degree=3))
            add(Edge.make_bspline(
                [(175.9223558, 25.8844542), (177.4175522, 24.540845), (178.7404604, 21.9363544), (177.2866152, 20.0208896)],
                knots=[0, 0, 0, 0, 1, 1, 1, 1], degree=3))
            add(Edge.make_bspline(
                [(177.2866152, 20.0208896), (176.9558818, 19.5869052), (176.5631724, 19.2147444), (176.1910878, 18.8219842)],
                knots=[0, 0, 0, 0, 1, 1, 1, 1], degree=3))
            add(Edge.make_bspline(
                [(176.1910878, 18.8219842), (175.8190286, 18.422493), (175.4538274, 18.0227478), (175.0817682, 17.6299876)],
                knots=[0, 0, 0, 0, 1, 1, 1, 1], degree=3))
            add(Edge.make_bspline(
                [(175.0817682, 17.6299876), (174.3445078, 16.8375838), (173.600364, 16.0383474), (172.8562202, 15.2459944)],
                knots=[0, 0, 0, 0, 1, 1, 1, 1], degree=3))
            add(Edge.make_bspline(
                [(172.8562202, 15.2459944), (171.3266322, 13.5992362), (169.7211998, 12.3727464), (170.1346102, 9.6580452)],
                knots=[0, 0, 0, 0, 1, 1, 1, 1], degree=3))
            add(Edge.make_bspline(
                [(170.1346102, 9.6580452), (170.3274978, 8.4177886), (170.823636, 7.549642), (171.7813684, 6.7434968)],
                knots=[0, 0, 0, 0, 1, 1, 1, 1], degree=3))
            add(Edge.make_bspline(
                [(171.7813684, 6.7434968), (172.2361046, 6.3645034), (172.7184252, 6.088888), (173.276514, 5.8960004)],
                knots=[0, 0, 0, 0, 1, 1, 1, 1], degree=3))
            add(Edge.make_bspline(
                [(173.276514, 5.8960004), (173.5383626, 5.8064908), (173.8001858, 5.7375044), (174.0688924, 5.6894984)],
                knots=[0, 0, 0, 0, 1, 1, 1, 1], degree=3))
            add(Edge.make_bspline(
                [(174.0688924, 5.6894984), (174.199804, 5.6694832), (174.330741, 5.6544972), (174.4616526, 5.6394858)],
                knots=[0, 0, 0, 0, 1, 1, 1, 1], degree=3))
            add(Edge.make_bspline(
                [(174.4616526, 5.6394858), (174.5237556, 5.6394858), (174.5925388, 5.634482), (174.6545402, 5.634482)],
                knots=[0, 0, 0, 0, 1, 1, 1, 1], degree=3))
            add(Edge.make_bspline(
                [(174.6545402, 5.634482), (174.6890588, 5.6295036), (174.7166432, 5.6295036), (174.7510602, 5.6295036)],
                knots=[0, 0, 0, 0, 1, 1, 1, 1], degree=3))
            add(Edge.make_bspline(
                [(174.7510602, 5.6295036), (174.7855534, 5.6295036), (174.9094546, 5.634482), (174.840646, 5.6295036)],
                knots=[0, 0, 0, 0, 1, 1, 1, 1], degree=3))
        make_face()
        with BuildLine():
            add(Edge.make_bspline(
                [(29.5953942, 12.9377948), (29.5953942, 10.7466892), (27.817699, 8.9690448), (25.6266188, 8.9690448)],
                knots=[0, 0, 0, 0, 1, 1, 1, 1], degree=3))
            add(Edge.make_bspline(
                [(25.6266188, 8.9690448), (23.4355386, 8.9690448), (21.6578688, 10.7466892), (21.6578688, 12.9377948)],
                knots=[0, 0, 0, 0, 1, 1, 1, 1], degree=3))
            add(Edge.make_bspline(
                [(21.6578688, 12.9377948), (21.6578688, 15.1288496), (23.4355386, 16.9065448), (25.6266188, 16.9065448)],
                knots=[0, 0, 0, 0, 1, 1, 1, 1], degree=3))
            add(Edge.make_bspline(
                [(25.6266188, 16.9065448), (27.817699, 16.9065448), (29.5953942, 15.1288496), (29.5953942, 12.9377948)],
                knots=[0, 0, 0, 0, 1, 1, 1, 1], degree=3))
        make_face(mode=Mode.SUBTRACT)
    extrude(amount=BOSS_EXTRUDE1_DEPTH)


solid = part.part
